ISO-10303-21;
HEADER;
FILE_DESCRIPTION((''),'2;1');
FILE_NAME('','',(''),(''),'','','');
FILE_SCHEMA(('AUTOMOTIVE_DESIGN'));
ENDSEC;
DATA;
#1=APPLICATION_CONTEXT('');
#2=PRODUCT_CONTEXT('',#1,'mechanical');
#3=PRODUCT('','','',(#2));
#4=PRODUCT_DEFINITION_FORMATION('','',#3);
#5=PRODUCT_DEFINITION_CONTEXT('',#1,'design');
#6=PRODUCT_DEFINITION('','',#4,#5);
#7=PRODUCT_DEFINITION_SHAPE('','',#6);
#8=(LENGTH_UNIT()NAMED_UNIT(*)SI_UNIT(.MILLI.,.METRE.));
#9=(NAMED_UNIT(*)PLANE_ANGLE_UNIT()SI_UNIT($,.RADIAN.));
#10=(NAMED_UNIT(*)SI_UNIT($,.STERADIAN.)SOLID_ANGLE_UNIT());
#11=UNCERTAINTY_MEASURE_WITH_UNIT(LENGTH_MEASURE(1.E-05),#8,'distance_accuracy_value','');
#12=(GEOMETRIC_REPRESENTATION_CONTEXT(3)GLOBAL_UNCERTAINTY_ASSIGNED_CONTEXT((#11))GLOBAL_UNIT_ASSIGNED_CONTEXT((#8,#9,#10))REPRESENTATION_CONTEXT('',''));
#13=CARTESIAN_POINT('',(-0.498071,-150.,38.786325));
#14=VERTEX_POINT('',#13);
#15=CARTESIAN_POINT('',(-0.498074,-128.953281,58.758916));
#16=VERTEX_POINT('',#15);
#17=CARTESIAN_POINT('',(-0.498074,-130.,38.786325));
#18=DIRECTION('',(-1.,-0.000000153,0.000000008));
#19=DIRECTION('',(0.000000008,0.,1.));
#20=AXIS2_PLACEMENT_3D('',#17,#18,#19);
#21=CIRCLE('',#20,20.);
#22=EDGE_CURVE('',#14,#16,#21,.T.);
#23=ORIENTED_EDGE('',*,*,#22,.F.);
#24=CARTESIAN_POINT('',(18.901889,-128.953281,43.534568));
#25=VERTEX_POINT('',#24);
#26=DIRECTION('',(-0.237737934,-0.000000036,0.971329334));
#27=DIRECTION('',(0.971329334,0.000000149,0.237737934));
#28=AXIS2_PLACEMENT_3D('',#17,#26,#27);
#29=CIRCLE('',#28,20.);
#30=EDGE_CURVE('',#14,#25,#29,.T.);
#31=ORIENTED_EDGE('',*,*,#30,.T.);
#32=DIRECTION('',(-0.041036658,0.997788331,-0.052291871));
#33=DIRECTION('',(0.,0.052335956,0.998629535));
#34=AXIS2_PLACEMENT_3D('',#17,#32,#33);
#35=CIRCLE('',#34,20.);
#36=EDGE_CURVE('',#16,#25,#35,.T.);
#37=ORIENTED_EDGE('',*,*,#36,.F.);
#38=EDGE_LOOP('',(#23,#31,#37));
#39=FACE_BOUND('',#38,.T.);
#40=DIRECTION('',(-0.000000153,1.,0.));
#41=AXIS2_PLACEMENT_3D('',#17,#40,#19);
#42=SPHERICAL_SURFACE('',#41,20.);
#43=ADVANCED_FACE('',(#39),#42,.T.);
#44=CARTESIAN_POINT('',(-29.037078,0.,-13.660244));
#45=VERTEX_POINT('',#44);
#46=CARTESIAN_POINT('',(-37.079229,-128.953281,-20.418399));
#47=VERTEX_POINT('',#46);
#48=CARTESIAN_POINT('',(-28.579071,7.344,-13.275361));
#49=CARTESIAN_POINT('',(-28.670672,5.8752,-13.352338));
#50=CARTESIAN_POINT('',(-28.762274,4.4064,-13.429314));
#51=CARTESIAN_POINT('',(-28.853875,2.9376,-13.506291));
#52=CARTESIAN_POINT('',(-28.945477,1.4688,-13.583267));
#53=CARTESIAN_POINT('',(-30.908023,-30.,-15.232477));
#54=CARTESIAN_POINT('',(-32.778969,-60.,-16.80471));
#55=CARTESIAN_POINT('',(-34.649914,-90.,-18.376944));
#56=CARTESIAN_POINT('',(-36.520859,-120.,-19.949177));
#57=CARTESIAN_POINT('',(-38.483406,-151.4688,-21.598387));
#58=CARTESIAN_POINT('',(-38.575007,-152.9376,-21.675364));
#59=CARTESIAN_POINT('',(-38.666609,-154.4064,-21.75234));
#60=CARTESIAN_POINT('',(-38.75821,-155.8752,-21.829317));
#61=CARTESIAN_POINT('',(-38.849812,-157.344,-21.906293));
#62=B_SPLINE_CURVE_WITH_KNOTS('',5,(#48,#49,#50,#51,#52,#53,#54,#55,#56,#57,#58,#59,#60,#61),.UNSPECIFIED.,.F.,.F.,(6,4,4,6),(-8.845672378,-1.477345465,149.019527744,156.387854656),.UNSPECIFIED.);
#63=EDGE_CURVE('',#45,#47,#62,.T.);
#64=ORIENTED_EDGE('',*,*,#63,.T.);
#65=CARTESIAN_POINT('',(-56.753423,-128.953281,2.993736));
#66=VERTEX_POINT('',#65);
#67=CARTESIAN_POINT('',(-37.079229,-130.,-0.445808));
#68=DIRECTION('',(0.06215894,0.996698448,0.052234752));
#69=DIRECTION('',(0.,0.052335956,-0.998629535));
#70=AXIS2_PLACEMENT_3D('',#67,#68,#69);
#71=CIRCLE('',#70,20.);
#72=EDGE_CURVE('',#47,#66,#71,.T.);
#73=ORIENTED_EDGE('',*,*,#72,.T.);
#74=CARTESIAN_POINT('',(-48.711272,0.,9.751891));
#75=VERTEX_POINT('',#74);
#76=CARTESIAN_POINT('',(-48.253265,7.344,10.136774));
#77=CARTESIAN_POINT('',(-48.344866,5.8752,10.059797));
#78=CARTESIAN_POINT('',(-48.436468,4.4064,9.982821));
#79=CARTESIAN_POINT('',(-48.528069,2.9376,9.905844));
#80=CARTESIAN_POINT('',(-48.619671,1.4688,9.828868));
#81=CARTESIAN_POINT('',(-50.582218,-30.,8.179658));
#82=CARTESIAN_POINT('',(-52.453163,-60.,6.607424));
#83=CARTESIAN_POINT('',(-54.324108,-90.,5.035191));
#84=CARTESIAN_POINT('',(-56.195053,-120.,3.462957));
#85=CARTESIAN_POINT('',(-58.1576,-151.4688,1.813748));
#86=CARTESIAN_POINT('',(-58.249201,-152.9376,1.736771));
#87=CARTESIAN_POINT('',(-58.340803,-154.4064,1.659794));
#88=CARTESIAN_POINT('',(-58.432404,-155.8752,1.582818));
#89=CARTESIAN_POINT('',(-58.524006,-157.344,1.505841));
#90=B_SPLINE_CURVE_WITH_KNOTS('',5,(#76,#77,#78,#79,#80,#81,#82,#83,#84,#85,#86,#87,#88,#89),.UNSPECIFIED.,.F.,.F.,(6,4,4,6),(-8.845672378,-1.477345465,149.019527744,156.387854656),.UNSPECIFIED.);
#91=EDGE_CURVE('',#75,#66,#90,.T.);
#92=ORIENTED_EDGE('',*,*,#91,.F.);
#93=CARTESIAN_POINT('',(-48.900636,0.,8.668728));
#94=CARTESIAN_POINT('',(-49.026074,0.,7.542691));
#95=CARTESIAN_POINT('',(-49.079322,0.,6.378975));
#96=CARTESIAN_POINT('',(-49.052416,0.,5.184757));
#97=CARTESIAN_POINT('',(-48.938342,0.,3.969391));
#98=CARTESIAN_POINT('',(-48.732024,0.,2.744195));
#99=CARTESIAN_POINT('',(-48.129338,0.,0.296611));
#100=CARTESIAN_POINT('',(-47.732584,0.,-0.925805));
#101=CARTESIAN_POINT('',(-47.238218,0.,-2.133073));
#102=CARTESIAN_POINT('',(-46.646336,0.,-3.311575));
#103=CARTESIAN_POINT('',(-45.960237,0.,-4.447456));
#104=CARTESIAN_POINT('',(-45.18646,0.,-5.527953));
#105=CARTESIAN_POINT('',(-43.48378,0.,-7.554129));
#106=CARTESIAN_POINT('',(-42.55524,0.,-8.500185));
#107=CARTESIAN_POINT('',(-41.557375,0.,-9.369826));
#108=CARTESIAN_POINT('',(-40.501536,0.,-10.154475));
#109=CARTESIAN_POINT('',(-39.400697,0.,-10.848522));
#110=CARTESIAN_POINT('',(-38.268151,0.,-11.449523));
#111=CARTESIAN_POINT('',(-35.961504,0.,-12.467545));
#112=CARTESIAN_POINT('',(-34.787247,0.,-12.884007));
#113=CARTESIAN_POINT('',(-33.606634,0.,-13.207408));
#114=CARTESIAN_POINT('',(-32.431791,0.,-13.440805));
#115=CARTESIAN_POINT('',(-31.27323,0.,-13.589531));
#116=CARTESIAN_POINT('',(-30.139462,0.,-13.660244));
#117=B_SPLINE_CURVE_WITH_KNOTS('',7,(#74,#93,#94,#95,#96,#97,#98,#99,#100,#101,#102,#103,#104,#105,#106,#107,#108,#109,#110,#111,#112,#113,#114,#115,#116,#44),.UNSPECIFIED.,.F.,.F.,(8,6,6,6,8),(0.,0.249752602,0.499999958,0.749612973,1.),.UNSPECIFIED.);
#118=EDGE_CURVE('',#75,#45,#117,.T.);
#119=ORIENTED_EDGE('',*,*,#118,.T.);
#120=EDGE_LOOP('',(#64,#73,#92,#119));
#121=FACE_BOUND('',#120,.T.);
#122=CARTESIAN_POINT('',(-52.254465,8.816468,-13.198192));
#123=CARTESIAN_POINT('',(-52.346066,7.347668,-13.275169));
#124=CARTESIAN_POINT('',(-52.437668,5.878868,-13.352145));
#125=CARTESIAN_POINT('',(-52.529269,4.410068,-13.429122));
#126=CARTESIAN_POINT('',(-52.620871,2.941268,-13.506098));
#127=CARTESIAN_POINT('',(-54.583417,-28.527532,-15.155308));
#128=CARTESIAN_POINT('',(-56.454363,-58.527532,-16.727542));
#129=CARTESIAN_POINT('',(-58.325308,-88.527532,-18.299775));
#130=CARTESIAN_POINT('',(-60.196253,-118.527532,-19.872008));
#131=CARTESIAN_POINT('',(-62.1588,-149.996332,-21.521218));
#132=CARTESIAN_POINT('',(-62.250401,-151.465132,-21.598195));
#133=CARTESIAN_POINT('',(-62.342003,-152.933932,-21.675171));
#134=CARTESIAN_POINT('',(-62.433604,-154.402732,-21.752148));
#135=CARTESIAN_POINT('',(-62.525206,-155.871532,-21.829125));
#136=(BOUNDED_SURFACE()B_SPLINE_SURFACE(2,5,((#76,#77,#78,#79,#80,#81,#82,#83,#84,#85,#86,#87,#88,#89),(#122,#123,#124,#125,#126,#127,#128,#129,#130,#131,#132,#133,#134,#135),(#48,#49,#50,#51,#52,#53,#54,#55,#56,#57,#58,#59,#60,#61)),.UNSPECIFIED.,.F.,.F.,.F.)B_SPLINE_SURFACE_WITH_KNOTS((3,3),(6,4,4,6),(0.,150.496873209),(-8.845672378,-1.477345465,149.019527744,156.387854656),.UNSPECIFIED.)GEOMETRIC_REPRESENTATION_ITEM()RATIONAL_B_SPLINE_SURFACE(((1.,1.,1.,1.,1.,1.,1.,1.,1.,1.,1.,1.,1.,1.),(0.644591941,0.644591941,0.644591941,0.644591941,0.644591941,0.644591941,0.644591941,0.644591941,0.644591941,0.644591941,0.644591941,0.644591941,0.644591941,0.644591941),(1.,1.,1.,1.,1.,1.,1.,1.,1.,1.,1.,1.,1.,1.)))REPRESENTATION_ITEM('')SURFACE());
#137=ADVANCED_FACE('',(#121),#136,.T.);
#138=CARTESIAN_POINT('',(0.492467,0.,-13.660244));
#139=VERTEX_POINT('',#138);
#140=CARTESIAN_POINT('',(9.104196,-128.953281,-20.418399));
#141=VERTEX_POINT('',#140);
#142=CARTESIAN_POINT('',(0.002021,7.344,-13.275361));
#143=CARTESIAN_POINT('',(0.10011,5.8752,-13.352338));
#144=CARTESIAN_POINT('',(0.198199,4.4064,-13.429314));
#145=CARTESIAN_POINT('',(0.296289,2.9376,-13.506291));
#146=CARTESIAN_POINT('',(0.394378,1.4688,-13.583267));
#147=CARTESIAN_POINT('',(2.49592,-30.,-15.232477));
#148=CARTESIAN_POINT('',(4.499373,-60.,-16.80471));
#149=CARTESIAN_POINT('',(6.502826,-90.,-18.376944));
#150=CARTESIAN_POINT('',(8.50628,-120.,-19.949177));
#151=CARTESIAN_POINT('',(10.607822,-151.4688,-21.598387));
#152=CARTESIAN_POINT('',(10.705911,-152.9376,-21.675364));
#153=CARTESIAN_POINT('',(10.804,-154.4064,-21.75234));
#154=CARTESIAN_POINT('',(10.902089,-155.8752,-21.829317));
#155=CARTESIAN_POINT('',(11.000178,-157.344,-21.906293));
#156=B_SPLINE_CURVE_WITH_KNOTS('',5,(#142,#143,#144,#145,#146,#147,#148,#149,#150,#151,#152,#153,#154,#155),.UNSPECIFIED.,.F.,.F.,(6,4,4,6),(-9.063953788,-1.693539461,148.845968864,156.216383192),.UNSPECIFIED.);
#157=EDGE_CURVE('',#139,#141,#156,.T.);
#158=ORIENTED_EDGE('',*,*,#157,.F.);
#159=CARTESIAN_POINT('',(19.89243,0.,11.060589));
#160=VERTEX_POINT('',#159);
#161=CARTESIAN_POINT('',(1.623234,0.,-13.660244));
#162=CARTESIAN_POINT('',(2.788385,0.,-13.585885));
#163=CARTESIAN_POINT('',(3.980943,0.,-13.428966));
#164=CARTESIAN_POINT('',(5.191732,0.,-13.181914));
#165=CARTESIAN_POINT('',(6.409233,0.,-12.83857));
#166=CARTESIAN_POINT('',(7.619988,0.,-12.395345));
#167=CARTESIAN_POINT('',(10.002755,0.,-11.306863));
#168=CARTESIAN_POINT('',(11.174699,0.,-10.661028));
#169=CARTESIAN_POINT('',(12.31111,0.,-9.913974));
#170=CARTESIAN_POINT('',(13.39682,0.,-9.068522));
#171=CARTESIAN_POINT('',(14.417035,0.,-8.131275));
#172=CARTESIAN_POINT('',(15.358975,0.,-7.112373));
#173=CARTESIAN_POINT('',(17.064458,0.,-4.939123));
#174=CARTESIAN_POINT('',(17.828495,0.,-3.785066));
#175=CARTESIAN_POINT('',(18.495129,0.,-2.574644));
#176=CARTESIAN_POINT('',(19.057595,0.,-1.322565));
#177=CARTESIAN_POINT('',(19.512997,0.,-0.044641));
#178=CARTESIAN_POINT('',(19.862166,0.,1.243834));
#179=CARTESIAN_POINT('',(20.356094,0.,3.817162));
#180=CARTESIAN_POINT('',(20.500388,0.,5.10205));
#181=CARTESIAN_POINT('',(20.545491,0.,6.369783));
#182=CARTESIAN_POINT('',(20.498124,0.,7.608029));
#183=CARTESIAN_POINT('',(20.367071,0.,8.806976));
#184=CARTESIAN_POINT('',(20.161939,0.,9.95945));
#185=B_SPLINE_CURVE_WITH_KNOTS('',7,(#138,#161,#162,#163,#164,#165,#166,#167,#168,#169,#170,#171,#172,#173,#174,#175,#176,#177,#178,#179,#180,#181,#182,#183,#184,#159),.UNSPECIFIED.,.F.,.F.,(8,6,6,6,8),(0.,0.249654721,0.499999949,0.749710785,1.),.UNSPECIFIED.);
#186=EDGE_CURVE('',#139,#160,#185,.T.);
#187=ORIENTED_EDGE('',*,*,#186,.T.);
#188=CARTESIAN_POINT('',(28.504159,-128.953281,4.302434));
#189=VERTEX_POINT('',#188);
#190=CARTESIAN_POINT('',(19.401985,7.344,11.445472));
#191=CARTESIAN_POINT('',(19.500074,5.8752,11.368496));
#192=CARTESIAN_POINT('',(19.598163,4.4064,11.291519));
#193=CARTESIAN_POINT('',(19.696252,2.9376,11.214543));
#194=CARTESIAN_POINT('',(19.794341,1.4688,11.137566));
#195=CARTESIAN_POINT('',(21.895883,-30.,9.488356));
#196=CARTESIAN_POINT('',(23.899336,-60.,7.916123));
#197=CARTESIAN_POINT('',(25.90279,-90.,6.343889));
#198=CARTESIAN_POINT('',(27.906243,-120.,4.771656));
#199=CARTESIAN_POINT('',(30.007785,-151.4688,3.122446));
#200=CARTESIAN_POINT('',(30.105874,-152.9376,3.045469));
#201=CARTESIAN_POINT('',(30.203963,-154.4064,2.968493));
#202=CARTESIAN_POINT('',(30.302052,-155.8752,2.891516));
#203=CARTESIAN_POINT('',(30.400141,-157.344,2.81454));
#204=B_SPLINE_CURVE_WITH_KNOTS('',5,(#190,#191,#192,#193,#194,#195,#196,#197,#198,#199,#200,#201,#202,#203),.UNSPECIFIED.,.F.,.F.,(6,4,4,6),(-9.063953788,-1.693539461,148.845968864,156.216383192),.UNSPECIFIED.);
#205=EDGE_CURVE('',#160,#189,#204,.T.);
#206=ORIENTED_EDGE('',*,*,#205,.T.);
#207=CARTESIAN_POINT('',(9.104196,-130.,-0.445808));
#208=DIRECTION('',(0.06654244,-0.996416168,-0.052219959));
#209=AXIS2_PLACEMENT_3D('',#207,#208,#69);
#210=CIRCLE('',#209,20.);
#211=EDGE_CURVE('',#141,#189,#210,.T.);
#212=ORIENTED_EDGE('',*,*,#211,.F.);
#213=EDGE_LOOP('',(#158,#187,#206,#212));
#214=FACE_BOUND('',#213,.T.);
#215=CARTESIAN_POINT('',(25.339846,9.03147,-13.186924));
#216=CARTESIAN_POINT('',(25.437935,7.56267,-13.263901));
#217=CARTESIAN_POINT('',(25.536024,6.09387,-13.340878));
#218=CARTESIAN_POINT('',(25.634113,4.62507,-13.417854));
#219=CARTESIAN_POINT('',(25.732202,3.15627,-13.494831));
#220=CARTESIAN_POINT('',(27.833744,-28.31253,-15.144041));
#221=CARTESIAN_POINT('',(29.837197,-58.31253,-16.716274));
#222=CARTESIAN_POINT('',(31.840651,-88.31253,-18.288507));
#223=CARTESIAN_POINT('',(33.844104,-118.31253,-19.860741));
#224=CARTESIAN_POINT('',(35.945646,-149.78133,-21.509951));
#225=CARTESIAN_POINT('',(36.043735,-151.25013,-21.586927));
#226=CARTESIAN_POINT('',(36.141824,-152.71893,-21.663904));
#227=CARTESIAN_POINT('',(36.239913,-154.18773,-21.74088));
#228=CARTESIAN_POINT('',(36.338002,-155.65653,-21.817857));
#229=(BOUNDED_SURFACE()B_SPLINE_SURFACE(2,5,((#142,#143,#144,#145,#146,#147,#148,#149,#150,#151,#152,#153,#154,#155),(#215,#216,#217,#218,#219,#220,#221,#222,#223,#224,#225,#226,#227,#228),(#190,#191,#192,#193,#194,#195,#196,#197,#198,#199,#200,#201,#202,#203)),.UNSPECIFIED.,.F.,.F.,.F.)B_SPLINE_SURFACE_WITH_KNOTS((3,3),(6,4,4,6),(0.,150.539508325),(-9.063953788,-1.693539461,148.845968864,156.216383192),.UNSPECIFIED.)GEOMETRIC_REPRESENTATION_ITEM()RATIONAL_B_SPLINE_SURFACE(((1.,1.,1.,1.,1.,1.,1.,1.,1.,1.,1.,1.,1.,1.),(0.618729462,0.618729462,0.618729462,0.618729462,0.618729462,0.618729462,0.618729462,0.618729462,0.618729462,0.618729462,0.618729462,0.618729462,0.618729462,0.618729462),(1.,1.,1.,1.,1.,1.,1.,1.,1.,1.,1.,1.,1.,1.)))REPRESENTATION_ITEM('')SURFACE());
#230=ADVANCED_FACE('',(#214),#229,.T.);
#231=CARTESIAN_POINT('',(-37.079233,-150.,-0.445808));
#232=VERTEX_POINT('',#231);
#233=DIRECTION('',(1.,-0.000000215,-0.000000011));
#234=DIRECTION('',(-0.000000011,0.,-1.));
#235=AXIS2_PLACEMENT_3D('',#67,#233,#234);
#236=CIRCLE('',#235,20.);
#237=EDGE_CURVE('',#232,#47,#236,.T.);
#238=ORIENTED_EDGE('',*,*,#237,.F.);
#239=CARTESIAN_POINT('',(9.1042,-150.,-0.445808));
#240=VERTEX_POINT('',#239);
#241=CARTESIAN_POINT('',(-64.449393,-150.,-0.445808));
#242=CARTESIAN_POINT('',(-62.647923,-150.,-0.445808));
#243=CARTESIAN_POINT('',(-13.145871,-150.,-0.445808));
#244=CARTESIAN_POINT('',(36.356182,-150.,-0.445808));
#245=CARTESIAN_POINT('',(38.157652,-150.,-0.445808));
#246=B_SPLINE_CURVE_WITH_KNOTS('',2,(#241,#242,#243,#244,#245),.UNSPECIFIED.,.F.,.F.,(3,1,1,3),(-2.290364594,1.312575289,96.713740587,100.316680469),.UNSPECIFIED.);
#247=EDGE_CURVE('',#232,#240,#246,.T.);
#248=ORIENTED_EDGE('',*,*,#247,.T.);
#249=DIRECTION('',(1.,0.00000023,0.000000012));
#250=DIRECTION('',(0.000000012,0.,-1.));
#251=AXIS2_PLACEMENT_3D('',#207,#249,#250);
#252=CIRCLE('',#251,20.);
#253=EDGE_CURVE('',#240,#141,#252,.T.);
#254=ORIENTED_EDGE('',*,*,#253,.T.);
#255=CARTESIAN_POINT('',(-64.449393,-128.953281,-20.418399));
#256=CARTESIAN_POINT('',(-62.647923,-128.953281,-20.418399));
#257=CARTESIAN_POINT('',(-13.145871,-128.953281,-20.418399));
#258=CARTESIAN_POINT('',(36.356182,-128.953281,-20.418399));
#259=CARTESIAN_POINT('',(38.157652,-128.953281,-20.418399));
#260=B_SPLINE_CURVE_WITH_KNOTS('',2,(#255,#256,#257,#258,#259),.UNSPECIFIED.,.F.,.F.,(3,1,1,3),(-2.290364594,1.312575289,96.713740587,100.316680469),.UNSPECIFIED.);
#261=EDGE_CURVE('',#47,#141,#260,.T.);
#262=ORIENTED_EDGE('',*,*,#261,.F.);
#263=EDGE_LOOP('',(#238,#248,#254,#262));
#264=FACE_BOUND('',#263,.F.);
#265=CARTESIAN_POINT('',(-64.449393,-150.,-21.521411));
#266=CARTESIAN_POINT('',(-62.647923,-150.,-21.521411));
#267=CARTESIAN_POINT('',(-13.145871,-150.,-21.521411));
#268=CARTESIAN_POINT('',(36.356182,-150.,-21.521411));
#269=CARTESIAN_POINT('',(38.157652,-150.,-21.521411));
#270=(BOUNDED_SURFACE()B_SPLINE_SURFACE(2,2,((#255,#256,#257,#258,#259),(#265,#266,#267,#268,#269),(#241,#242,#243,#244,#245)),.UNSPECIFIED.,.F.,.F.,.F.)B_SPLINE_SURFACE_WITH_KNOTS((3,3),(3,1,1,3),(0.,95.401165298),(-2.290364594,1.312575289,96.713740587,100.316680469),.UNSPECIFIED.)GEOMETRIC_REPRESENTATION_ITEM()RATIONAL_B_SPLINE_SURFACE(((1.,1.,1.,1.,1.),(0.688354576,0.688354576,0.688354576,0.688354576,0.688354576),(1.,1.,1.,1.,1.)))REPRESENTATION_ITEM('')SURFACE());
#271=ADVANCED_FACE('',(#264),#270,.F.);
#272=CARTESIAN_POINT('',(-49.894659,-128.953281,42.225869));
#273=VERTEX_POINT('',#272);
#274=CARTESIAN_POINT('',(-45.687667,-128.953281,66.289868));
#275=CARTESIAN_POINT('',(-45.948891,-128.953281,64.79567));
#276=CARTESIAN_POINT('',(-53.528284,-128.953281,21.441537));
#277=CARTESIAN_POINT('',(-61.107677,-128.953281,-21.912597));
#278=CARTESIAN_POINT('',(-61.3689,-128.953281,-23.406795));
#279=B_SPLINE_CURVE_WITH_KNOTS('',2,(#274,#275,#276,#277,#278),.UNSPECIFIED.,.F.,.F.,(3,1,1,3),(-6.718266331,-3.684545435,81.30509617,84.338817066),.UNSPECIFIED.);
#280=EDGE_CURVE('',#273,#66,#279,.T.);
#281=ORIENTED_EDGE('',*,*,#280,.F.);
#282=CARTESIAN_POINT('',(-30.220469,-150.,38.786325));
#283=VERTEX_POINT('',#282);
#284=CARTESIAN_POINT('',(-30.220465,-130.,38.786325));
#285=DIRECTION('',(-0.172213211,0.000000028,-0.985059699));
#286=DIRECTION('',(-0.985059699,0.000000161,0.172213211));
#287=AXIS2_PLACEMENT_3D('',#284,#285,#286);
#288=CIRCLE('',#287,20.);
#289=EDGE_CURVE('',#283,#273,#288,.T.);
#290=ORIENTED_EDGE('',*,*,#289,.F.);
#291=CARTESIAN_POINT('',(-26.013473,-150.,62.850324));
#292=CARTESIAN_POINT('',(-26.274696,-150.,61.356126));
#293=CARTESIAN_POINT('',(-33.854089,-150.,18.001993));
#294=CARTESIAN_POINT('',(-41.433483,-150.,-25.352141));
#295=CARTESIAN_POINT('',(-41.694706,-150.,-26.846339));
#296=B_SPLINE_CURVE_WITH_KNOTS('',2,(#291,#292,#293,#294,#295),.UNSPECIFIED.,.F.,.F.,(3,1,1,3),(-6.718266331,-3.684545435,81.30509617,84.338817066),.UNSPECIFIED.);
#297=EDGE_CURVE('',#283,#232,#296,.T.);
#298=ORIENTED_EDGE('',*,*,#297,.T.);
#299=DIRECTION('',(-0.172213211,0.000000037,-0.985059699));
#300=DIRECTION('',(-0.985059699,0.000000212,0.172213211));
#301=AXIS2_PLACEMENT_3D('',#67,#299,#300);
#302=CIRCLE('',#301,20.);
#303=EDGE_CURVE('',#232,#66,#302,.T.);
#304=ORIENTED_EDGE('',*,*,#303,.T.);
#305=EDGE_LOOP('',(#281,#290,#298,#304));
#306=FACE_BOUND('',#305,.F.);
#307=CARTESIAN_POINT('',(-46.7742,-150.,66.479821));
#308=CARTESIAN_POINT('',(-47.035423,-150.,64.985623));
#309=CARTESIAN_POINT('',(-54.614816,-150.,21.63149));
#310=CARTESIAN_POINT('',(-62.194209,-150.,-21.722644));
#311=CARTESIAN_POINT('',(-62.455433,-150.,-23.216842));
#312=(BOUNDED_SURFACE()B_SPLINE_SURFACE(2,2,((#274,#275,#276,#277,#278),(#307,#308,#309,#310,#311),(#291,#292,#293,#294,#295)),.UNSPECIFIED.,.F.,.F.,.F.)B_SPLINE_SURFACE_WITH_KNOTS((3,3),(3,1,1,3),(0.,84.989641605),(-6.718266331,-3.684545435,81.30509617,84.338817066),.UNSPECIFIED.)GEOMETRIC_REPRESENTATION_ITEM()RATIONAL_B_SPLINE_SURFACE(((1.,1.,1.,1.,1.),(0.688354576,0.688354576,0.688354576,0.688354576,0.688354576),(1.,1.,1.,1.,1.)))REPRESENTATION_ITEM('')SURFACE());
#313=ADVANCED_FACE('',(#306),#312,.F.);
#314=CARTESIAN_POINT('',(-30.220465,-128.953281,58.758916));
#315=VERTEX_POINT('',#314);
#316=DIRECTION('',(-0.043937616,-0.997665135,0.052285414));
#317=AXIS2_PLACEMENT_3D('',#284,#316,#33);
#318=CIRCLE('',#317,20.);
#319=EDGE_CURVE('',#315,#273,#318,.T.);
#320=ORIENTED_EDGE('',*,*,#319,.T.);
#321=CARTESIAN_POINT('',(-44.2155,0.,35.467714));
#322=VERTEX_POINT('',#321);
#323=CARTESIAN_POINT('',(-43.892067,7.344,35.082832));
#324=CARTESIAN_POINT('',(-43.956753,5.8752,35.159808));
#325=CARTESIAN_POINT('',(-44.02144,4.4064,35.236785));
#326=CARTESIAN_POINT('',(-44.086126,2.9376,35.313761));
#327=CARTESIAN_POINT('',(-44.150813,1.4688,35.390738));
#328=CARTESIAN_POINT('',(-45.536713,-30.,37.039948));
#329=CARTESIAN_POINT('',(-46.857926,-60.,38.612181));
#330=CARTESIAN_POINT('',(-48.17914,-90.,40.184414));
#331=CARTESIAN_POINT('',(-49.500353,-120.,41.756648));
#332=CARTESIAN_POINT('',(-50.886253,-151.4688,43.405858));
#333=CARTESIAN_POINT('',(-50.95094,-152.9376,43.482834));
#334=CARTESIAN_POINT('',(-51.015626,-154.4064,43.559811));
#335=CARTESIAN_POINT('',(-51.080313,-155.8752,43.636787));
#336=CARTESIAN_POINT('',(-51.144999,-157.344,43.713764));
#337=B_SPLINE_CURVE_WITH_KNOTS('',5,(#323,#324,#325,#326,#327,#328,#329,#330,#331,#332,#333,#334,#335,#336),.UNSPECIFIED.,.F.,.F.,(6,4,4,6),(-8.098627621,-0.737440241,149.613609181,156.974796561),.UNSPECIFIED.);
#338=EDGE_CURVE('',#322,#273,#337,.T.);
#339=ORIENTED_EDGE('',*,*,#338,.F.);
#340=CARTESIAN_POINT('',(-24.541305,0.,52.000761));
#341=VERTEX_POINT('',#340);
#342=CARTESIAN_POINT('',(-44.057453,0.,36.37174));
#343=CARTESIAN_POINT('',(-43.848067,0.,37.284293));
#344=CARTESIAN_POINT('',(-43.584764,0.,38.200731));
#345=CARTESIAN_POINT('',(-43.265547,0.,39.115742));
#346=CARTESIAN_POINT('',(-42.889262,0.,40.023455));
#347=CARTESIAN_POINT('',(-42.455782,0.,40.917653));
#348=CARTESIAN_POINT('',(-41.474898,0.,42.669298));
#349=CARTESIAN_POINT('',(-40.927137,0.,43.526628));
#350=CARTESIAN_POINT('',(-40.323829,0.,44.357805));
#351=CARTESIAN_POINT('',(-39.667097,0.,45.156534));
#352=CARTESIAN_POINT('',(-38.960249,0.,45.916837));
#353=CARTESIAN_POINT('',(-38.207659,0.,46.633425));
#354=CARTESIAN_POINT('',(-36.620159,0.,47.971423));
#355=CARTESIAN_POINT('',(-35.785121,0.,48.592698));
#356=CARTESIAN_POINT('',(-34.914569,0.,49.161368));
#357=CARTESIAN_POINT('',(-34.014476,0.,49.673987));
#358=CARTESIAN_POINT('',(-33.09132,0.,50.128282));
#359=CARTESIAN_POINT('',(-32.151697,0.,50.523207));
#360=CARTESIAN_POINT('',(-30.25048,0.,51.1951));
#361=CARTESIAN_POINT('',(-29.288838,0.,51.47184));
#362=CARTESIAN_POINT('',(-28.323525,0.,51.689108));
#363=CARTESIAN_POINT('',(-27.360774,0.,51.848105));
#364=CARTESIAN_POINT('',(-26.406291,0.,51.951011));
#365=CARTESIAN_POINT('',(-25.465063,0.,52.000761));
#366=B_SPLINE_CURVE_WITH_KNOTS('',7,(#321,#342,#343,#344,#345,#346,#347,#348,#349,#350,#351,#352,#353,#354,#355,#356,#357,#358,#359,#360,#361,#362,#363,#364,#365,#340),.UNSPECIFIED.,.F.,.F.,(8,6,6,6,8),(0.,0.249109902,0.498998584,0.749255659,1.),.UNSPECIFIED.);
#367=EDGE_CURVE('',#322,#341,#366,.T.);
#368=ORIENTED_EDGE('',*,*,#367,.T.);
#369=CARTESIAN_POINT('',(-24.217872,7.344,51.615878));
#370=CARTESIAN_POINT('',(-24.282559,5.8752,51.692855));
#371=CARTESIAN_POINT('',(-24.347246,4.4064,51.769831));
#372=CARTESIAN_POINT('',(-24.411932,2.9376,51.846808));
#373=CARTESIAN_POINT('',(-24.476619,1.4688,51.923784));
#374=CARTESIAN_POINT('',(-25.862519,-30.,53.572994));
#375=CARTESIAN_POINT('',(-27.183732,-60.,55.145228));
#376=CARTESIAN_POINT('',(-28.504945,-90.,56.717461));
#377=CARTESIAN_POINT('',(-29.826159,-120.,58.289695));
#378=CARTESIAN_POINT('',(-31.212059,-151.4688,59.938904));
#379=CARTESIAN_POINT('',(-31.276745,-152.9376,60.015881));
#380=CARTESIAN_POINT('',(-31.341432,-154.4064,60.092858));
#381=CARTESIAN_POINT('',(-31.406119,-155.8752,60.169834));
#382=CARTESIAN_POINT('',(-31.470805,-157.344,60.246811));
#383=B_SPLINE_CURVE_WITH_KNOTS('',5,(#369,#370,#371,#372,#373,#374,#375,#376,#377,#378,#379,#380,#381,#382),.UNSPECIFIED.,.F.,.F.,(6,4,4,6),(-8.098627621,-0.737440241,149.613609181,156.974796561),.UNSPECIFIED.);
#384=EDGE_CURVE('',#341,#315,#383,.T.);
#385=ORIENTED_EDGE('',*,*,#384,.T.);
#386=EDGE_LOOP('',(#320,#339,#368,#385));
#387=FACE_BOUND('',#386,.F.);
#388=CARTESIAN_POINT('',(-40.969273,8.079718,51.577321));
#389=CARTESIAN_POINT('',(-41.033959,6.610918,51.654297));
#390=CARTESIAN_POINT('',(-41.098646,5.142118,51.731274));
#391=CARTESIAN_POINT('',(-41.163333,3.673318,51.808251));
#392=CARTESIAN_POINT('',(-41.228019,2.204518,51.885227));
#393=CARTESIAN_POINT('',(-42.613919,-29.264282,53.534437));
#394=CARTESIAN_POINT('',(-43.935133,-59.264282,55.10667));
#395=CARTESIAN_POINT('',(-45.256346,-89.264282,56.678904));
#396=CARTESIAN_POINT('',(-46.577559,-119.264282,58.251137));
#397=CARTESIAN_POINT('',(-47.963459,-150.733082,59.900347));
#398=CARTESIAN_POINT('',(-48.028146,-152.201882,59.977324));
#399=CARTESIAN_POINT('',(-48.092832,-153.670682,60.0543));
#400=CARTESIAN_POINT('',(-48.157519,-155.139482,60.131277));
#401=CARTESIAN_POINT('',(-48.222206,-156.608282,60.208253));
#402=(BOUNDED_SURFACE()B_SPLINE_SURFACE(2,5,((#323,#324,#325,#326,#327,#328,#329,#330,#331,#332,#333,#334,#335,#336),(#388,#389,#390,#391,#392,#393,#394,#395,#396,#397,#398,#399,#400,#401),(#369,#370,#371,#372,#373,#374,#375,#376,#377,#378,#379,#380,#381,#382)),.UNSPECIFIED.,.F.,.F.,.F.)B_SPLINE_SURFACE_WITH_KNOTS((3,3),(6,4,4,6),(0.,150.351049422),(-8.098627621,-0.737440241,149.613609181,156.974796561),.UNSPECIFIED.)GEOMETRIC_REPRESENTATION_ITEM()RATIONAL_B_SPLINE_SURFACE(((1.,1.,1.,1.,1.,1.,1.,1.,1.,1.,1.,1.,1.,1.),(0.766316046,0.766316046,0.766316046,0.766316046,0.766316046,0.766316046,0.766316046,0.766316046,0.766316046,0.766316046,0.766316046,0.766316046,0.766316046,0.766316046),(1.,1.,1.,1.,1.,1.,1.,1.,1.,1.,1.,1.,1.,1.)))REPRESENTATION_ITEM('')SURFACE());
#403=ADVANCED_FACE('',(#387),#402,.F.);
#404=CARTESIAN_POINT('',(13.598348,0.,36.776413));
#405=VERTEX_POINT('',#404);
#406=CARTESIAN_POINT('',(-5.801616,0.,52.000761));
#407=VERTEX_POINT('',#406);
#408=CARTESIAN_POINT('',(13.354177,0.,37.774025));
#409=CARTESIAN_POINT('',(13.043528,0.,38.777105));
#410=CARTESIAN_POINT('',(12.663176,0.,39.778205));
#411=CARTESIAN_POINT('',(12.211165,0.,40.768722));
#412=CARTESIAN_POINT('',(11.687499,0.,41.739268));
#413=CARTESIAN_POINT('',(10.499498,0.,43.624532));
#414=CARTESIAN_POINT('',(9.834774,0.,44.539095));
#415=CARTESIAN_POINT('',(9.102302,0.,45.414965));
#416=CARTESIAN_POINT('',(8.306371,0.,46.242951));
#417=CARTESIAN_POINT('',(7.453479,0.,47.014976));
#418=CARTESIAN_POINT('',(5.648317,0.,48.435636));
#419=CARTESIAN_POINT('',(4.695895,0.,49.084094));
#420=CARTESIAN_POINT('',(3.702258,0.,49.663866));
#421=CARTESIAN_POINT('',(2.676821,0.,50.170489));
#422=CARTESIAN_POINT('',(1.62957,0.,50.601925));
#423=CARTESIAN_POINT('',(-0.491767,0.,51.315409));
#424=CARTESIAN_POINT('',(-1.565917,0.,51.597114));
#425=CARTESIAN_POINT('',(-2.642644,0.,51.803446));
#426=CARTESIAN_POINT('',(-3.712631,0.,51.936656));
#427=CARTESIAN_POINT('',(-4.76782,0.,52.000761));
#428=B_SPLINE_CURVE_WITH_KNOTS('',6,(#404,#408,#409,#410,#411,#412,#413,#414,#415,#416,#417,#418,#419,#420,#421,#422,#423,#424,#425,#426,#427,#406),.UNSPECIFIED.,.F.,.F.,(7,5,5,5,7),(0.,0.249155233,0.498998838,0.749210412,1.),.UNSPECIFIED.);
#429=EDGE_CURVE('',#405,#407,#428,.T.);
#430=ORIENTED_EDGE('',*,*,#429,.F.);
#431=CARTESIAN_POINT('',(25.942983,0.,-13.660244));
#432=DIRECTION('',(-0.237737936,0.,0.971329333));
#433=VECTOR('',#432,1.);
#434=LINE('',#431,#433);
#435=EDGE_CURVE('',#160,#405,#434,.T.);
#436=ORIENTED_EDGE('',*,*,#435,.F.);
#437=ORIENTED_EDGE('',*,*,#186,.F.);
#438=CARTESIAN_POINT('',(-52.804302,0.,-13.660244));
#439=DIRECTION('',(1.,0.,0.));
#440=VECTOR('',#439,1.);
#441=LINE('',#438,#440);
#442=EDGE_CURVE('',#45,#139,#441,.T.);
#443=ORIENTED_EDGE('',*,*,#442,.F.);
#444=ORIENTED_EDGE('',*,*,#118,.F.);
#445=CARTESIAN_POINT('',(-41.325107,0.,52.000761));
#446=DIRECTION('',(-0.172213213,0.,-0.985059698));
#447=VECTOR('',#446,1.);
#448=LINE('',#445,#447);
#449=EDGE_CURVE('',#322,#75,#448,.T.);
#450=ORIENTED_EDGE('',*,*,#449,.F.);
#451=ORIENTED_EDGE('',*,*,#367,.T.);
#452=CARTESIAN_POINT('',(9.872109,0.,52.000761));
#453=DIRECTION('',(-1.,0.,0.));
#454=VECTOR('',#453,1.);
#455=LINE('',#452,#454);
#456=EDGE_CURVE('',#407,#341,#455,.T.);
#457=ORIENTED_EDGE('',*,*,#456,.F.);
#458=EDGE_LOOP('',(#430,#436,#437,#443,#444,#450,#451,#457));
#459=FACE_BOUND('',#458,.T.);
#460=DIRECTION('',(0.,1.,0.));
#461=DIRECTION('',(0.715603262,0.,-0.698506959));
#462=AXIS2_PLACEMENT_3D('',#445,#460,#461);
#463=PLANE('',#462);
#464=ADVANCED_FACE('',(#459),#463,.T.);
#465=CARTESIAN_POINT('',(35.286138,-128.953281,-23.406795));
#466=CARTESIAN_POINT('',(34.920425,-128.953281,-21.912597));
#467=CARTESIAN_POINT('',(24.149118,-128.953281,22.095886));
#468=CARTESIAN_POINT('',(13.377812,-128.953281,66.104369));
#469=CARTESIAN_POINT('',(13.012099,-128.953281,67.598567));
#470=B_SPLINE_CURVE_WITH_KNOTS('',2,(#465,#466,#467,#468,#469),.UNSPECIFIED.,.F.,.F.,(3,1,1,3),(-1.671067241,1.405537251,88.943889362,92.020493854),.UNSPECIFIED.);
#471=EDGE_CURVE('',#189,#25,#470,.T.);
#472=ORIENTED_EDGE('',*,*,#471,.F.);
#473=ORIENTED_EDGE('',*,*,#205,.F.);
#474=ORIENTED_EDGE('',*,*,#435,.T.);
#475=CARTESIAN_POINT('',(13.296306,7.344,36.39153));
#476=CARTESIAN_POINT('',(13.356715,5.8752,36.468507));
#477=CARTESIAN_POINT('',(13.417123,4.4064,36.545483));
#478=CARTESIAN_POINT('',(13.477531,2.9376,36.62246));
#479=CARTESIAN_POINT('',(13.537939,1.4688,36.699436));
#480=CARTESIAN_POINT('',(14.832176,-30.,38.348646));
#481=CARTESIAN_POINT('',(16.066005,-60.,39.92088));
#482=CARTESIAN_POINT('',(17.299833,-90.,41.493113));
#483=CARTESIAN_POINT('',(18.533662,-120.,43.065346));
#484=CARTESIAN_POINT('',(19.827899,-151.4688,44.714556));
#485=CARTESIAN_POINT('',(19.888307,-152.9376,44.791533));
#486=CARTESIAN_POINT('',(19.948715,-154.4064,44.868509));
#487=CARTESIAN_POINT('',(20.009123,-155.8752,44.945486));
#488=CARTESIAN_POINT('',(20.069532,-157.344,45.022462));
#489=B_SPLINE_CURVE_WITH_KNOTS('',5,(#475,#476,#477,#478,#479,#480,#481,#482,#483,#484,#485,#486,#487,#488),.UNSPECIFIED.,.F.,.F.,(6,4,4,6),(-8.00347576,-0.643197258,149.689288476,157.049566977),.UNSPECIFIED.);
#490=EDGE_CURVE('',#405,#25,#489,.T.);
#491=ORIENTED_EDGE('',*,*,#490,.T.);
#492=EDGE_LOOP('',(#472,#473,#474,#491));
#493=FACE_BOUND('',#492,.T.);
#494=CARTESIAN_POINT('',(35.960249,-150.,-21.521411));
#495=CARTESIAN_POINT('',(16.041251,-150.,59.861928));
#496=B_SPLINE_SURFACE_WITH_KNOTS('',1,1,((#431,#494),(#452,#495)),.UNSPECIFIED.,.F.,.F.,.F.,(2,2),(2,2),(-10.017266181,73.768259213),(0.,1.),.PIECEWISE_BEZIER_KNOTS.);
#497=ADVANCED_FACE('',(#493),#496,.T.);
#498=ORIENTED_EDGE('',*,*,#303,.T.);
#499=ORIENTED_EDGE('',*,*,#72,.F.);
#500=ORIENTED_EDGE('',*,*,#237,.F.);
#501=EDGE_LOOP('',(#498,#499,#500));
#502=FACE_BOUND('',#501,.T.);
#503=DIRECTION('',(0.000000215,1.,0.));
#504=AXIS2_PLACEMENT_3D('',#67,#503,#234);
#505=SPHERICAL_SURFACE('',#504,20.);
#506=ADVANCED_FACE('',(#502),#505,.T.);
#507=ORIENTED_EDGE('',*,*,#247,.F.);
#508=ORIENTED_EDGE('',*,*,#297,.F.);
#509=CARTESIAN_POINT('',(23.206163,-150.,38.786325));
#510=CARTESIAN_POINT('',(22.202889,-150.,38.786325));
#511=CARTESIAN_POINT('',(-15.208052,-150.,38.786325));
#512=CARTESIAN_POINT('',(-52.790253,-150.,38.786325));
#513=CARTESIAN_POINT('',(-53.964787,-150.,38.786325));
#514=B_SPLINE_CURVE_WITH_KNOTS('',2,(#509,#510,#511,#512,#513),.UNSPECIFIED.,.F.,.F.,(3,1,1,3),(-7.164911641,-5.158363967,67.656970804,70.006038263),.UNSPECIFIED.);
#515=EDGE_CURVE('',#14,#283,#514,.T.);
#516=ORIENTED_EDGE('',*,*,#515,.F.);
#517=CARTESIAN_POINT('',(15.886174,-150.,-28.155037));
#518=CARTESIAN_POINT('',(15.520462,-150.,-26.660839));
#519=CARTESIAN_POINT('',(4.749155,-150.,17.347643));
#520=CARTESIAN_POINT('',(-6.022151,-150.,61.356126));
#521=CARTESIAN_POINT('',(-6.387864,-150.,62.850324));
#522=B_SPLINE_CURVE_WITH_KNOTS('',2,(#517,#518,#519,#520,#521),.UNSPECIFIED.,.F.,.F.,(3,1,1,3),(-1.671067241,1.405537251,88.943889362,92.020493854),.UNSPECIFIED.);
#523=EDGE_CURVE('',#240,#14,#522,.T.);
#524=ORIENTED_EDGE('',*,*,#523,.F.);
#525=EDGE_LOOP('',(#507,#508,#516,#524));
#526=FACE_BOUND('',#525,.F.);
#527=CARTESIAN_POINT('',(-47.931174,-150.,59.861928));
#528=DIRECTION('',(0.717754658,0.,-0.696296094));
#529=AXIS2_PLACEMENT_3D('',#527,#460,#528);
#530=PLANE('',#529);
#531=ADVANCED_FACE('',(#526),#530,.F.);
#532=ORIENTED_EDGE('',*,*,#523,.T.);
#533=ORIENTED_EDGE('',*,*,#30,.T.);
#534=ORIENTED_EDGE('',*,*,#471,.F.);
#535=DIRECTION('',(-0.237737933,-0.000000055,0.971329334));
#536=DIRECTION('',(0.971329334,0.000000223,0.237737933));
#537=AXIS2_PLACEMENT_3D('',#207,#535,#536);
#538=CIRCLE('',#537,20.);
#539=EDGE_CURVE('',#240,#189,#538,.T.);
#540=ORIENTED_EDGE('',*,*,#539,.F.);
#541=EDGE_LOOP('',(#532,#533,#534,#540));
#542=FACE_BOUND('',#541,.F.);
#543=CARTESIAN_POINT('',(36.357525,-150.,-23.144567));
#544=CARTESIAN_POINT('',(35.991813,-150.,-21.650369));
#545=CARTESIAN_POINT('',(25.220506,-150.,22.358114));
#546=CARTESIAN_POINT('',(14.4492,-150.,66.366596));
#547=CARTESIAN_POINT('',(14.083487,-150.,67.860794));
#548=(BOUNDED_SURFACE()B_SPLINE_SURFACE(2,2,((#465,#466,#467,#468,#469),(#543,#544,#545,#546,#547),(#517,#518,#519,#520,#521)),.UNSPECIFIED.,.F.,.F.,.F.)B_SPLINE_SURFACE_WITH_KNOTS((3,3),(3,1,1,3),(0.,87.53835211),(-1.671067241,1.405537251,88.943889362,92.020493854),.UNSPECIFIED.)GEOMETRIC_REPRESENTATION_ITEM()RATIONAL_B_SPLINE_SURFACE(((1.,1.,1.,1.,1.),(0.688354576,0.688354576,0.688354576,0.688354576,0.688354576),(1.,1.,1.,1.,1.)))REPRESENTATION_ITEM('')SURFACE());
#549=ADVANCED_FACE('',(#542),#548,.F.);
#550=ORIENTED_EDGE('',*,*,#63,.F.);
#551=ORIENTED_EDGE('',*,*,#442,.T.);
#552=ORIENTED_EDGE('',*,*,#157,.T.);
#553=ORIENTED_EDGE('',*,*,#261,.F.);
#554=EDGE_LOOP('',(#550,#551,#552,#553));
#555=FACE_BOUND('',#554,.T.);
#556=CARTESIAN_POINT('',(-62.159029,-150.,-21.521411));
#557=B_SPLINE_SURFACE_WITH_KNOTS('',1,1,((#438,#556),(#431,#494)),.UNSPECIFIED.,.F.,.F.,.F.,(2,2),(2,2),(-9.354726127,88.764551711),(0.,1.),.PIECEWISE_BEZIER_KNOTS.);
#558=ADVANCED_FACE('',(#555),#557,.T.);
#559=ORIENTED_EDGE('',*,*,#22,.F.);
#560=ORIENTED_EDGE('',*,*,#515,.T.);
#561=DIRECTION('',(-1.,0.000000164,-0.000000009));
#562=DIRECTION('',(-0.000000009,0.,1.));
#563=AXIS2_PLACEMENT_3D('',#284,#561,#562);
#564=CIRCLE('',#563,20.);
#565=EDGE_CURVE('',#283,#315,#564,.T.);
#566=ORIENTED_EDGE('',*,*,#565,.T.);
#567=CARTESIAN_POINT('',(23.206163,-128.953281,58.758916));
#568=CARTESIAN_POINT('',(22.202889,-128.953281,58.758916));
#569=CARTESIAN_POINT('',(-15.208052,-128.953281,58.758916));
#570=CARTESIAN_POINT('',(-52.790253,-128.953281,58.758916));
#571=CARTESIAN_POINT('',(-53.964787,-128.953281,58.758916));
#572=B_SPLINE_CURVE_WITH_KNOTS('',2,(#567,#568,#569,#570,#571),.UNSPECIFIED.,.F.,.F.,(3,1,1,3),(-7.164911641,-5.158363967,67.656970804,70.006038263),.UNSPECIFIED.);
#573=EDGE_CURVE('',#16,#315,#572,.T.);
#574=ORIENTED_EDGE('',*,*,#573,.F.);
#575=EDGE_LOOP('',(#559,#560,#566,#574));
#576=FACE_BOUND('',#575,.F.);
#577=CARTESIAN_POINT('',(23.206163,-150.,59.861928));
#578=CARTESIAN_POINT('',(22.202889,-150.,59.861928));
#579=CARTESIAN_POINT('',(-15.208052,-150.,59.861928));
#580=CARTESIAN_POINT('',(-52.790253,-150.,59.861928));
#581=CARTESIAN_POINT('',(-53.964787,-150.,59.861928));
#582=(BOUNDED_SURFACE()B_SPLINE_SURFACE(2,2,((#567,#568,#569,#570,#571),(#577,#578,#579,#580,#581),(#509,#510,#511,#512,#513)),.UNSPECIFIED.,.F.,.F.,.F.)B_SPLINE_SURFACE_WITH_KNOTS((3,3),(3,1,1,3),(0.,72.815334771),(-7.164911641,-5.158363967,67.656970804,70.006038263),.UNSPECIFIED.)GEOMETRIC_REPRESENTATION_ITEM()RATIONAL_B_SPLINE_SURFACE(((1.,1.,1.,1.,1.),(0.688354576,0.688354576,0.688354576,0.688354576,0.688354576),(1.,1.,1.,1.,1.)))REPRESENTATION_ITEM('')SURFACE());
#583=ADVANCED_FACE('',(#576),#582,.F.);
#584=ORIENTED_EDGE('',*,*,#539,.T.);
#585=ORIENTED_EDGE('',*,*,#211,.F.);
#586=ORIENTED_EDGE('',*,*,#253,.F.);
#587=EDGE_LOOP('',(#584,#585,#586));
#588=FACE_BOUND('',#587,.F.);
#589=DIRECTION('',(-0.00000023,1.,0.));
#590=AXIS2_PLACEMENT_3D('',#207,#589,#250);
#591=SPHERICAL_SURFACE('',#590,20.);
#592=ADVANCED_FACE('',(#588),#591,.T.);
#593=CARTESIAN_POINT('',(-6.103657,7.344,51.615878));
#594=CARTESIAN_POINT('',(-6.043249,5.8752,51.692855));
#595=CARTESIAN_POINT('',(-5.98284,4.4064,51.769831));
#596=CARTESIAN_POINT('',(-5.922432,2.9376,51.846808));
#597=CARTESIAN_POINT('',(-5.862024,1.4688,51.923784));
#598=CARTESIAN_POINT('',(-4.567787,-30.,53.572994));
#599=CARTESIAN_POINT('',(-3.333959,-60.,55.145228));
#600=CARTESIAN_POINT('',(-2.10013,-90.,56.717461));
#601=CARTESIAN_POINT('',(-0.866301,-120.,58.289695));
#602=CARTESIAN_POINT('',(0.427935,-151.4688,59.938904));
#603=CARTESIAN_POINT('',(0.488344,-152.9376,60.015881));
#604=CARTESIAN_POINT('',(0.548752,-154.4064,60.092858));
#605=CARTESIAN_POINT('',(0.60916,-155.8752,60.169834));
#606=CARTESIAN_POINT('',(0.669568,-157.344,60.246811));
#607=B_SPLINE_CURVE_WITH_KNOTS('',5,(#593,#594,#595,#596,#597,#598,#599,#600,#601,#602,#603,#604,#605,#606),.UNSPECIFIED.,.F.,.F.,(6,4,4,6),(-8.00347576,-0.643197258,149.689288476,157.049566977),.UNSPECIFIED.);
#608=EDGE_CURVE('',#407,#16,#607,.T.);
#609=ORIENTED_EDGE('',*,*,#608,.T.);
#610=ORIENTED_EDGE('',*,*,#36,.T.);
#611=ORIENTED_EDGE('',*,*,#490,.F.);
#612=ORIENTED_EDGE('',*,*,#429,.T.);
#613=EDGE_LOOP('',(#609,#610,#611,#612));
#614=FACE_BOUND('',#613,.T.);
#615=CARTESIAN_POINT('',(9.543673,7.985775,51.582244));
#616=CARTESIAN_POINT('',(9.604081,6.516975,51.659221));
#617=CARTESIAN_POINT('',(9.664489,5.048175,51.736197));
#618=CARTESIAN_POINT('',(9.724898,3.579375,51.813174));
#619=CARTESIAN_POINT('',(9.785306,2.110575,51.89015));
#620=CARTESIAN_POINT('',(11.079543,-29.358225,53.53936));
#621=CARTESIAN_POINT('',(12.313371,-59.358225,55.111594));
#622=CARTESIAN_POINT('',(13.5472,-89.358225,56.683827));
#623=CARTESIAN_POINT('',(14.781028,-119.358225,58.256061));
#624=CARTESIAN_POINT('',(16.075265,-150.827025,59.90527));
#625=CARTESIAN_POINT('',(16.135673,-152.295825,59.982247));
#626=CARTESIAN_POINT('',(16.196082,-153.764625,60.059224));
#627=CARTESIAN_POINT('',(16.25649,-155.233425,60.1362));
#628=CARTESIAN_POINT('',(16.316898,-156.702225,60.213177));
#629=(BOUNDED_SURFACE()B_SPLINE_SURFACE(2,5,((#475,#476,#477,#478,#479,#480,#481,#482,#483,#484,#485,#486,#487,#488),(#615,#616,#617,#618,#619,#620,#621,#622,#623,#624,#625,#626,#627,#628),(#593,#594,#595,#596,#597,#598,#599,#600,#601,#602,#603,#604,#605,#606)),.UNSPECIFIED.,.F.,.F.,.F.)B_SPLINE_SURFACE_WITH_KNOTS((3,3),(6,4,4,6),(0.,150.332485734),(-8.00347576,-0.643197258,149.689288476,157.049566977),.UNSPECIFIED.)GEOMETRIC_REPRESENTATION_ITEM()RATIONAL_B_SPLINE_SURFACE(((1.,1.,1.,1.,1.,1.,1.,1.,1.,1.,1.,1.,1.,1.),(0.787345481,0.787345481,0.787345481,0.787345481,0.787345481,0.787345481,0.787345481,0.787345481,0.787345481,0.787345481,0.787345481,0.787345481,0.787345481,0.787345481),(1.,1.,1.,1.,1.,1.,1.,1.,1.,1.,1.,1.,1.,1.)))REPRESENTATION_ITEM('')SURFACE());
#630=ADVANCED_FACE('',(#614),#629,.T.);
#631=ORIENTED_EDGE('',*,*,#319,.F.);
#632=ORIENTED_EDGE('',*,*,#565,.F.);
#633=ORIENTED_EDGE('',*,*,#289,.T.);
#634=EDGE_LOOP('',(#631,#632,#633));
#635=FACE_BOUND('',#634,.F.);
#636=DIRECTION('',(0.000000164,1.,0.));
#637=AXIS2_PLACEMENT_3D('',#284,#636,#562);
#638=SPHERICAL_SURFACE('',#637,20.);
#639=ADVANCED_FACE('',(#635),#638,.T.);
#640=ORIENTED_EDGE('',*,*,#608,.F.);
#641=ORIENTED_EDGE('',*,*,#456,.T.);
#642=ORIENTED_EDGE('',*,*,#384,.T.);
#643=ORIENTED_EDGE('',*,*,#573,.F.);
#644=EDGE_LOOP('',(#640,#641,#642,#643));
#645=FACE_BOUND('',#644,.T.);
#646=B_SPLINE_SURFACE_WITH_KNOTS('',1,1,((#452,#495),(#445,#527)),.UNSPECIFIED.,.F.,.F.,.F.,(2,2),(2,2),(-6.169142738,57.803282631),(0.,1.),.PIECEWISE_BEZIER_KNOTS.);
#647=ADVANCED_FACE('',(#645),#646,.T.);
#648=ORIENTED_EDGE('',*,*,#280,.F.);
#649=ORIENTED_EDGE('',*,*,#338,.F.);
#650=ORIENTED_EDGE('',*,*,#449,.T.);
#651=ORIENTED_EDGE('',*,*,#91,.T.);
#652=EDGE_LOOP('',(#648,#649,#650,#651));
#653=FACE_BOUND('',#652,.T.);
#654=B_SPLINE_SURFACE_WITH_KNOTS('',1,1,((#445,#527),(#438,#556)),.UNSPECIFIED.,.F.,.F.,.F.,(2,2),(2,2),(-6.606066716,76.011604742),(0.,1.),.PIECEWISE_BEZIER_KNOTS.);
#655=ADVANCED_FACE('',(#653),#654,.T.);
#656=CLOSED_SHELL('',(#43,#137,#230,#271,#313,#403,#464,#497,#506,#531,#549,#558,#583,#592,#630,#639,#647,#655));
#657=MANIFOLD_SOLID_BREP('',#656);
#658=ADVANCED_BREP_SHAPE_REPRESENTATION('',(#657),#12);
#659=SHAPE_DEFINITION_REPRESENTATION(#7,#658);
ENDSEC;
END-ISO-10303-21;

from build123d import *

# Parameters (mm, degrees)
F1_DEPTH = 150
F1_TAPER = -3
F2_R     = 20


with BuildPart() as f1:
    # F0 (on Front) → F1 (new body)
    with BuildSketch(Plane.XZ):
        Polygon((-41.3251072168, 52.0007610321), (-52.8043024242, -13.6602437124), (25.9429831058, -13.6602437124), (9.8721086979, 52.0007610321), align=None)
    extrude(amount=F1_DEPTH, taper=F1_TAPER)

    # F2
    f2_edges = [f1.edges().sort_by_distance(p)[0] for p in [
        (-44.628141, -75, 55.931344),
        (12.95668, -75, 55.931344),
        (30.951616, -75, -17.590827),
        (-57.481665, -75, -17.590827),
        (-13.09939, -150, -21.521411),
        (-15.944961, -150, 59.861928),
        (-55.045101, -150, 19.170259),
        (26.00075, -150, 19.170259),
    ]]
    fillet(f2_edges, radius=F2_R)


solid = f1.part
